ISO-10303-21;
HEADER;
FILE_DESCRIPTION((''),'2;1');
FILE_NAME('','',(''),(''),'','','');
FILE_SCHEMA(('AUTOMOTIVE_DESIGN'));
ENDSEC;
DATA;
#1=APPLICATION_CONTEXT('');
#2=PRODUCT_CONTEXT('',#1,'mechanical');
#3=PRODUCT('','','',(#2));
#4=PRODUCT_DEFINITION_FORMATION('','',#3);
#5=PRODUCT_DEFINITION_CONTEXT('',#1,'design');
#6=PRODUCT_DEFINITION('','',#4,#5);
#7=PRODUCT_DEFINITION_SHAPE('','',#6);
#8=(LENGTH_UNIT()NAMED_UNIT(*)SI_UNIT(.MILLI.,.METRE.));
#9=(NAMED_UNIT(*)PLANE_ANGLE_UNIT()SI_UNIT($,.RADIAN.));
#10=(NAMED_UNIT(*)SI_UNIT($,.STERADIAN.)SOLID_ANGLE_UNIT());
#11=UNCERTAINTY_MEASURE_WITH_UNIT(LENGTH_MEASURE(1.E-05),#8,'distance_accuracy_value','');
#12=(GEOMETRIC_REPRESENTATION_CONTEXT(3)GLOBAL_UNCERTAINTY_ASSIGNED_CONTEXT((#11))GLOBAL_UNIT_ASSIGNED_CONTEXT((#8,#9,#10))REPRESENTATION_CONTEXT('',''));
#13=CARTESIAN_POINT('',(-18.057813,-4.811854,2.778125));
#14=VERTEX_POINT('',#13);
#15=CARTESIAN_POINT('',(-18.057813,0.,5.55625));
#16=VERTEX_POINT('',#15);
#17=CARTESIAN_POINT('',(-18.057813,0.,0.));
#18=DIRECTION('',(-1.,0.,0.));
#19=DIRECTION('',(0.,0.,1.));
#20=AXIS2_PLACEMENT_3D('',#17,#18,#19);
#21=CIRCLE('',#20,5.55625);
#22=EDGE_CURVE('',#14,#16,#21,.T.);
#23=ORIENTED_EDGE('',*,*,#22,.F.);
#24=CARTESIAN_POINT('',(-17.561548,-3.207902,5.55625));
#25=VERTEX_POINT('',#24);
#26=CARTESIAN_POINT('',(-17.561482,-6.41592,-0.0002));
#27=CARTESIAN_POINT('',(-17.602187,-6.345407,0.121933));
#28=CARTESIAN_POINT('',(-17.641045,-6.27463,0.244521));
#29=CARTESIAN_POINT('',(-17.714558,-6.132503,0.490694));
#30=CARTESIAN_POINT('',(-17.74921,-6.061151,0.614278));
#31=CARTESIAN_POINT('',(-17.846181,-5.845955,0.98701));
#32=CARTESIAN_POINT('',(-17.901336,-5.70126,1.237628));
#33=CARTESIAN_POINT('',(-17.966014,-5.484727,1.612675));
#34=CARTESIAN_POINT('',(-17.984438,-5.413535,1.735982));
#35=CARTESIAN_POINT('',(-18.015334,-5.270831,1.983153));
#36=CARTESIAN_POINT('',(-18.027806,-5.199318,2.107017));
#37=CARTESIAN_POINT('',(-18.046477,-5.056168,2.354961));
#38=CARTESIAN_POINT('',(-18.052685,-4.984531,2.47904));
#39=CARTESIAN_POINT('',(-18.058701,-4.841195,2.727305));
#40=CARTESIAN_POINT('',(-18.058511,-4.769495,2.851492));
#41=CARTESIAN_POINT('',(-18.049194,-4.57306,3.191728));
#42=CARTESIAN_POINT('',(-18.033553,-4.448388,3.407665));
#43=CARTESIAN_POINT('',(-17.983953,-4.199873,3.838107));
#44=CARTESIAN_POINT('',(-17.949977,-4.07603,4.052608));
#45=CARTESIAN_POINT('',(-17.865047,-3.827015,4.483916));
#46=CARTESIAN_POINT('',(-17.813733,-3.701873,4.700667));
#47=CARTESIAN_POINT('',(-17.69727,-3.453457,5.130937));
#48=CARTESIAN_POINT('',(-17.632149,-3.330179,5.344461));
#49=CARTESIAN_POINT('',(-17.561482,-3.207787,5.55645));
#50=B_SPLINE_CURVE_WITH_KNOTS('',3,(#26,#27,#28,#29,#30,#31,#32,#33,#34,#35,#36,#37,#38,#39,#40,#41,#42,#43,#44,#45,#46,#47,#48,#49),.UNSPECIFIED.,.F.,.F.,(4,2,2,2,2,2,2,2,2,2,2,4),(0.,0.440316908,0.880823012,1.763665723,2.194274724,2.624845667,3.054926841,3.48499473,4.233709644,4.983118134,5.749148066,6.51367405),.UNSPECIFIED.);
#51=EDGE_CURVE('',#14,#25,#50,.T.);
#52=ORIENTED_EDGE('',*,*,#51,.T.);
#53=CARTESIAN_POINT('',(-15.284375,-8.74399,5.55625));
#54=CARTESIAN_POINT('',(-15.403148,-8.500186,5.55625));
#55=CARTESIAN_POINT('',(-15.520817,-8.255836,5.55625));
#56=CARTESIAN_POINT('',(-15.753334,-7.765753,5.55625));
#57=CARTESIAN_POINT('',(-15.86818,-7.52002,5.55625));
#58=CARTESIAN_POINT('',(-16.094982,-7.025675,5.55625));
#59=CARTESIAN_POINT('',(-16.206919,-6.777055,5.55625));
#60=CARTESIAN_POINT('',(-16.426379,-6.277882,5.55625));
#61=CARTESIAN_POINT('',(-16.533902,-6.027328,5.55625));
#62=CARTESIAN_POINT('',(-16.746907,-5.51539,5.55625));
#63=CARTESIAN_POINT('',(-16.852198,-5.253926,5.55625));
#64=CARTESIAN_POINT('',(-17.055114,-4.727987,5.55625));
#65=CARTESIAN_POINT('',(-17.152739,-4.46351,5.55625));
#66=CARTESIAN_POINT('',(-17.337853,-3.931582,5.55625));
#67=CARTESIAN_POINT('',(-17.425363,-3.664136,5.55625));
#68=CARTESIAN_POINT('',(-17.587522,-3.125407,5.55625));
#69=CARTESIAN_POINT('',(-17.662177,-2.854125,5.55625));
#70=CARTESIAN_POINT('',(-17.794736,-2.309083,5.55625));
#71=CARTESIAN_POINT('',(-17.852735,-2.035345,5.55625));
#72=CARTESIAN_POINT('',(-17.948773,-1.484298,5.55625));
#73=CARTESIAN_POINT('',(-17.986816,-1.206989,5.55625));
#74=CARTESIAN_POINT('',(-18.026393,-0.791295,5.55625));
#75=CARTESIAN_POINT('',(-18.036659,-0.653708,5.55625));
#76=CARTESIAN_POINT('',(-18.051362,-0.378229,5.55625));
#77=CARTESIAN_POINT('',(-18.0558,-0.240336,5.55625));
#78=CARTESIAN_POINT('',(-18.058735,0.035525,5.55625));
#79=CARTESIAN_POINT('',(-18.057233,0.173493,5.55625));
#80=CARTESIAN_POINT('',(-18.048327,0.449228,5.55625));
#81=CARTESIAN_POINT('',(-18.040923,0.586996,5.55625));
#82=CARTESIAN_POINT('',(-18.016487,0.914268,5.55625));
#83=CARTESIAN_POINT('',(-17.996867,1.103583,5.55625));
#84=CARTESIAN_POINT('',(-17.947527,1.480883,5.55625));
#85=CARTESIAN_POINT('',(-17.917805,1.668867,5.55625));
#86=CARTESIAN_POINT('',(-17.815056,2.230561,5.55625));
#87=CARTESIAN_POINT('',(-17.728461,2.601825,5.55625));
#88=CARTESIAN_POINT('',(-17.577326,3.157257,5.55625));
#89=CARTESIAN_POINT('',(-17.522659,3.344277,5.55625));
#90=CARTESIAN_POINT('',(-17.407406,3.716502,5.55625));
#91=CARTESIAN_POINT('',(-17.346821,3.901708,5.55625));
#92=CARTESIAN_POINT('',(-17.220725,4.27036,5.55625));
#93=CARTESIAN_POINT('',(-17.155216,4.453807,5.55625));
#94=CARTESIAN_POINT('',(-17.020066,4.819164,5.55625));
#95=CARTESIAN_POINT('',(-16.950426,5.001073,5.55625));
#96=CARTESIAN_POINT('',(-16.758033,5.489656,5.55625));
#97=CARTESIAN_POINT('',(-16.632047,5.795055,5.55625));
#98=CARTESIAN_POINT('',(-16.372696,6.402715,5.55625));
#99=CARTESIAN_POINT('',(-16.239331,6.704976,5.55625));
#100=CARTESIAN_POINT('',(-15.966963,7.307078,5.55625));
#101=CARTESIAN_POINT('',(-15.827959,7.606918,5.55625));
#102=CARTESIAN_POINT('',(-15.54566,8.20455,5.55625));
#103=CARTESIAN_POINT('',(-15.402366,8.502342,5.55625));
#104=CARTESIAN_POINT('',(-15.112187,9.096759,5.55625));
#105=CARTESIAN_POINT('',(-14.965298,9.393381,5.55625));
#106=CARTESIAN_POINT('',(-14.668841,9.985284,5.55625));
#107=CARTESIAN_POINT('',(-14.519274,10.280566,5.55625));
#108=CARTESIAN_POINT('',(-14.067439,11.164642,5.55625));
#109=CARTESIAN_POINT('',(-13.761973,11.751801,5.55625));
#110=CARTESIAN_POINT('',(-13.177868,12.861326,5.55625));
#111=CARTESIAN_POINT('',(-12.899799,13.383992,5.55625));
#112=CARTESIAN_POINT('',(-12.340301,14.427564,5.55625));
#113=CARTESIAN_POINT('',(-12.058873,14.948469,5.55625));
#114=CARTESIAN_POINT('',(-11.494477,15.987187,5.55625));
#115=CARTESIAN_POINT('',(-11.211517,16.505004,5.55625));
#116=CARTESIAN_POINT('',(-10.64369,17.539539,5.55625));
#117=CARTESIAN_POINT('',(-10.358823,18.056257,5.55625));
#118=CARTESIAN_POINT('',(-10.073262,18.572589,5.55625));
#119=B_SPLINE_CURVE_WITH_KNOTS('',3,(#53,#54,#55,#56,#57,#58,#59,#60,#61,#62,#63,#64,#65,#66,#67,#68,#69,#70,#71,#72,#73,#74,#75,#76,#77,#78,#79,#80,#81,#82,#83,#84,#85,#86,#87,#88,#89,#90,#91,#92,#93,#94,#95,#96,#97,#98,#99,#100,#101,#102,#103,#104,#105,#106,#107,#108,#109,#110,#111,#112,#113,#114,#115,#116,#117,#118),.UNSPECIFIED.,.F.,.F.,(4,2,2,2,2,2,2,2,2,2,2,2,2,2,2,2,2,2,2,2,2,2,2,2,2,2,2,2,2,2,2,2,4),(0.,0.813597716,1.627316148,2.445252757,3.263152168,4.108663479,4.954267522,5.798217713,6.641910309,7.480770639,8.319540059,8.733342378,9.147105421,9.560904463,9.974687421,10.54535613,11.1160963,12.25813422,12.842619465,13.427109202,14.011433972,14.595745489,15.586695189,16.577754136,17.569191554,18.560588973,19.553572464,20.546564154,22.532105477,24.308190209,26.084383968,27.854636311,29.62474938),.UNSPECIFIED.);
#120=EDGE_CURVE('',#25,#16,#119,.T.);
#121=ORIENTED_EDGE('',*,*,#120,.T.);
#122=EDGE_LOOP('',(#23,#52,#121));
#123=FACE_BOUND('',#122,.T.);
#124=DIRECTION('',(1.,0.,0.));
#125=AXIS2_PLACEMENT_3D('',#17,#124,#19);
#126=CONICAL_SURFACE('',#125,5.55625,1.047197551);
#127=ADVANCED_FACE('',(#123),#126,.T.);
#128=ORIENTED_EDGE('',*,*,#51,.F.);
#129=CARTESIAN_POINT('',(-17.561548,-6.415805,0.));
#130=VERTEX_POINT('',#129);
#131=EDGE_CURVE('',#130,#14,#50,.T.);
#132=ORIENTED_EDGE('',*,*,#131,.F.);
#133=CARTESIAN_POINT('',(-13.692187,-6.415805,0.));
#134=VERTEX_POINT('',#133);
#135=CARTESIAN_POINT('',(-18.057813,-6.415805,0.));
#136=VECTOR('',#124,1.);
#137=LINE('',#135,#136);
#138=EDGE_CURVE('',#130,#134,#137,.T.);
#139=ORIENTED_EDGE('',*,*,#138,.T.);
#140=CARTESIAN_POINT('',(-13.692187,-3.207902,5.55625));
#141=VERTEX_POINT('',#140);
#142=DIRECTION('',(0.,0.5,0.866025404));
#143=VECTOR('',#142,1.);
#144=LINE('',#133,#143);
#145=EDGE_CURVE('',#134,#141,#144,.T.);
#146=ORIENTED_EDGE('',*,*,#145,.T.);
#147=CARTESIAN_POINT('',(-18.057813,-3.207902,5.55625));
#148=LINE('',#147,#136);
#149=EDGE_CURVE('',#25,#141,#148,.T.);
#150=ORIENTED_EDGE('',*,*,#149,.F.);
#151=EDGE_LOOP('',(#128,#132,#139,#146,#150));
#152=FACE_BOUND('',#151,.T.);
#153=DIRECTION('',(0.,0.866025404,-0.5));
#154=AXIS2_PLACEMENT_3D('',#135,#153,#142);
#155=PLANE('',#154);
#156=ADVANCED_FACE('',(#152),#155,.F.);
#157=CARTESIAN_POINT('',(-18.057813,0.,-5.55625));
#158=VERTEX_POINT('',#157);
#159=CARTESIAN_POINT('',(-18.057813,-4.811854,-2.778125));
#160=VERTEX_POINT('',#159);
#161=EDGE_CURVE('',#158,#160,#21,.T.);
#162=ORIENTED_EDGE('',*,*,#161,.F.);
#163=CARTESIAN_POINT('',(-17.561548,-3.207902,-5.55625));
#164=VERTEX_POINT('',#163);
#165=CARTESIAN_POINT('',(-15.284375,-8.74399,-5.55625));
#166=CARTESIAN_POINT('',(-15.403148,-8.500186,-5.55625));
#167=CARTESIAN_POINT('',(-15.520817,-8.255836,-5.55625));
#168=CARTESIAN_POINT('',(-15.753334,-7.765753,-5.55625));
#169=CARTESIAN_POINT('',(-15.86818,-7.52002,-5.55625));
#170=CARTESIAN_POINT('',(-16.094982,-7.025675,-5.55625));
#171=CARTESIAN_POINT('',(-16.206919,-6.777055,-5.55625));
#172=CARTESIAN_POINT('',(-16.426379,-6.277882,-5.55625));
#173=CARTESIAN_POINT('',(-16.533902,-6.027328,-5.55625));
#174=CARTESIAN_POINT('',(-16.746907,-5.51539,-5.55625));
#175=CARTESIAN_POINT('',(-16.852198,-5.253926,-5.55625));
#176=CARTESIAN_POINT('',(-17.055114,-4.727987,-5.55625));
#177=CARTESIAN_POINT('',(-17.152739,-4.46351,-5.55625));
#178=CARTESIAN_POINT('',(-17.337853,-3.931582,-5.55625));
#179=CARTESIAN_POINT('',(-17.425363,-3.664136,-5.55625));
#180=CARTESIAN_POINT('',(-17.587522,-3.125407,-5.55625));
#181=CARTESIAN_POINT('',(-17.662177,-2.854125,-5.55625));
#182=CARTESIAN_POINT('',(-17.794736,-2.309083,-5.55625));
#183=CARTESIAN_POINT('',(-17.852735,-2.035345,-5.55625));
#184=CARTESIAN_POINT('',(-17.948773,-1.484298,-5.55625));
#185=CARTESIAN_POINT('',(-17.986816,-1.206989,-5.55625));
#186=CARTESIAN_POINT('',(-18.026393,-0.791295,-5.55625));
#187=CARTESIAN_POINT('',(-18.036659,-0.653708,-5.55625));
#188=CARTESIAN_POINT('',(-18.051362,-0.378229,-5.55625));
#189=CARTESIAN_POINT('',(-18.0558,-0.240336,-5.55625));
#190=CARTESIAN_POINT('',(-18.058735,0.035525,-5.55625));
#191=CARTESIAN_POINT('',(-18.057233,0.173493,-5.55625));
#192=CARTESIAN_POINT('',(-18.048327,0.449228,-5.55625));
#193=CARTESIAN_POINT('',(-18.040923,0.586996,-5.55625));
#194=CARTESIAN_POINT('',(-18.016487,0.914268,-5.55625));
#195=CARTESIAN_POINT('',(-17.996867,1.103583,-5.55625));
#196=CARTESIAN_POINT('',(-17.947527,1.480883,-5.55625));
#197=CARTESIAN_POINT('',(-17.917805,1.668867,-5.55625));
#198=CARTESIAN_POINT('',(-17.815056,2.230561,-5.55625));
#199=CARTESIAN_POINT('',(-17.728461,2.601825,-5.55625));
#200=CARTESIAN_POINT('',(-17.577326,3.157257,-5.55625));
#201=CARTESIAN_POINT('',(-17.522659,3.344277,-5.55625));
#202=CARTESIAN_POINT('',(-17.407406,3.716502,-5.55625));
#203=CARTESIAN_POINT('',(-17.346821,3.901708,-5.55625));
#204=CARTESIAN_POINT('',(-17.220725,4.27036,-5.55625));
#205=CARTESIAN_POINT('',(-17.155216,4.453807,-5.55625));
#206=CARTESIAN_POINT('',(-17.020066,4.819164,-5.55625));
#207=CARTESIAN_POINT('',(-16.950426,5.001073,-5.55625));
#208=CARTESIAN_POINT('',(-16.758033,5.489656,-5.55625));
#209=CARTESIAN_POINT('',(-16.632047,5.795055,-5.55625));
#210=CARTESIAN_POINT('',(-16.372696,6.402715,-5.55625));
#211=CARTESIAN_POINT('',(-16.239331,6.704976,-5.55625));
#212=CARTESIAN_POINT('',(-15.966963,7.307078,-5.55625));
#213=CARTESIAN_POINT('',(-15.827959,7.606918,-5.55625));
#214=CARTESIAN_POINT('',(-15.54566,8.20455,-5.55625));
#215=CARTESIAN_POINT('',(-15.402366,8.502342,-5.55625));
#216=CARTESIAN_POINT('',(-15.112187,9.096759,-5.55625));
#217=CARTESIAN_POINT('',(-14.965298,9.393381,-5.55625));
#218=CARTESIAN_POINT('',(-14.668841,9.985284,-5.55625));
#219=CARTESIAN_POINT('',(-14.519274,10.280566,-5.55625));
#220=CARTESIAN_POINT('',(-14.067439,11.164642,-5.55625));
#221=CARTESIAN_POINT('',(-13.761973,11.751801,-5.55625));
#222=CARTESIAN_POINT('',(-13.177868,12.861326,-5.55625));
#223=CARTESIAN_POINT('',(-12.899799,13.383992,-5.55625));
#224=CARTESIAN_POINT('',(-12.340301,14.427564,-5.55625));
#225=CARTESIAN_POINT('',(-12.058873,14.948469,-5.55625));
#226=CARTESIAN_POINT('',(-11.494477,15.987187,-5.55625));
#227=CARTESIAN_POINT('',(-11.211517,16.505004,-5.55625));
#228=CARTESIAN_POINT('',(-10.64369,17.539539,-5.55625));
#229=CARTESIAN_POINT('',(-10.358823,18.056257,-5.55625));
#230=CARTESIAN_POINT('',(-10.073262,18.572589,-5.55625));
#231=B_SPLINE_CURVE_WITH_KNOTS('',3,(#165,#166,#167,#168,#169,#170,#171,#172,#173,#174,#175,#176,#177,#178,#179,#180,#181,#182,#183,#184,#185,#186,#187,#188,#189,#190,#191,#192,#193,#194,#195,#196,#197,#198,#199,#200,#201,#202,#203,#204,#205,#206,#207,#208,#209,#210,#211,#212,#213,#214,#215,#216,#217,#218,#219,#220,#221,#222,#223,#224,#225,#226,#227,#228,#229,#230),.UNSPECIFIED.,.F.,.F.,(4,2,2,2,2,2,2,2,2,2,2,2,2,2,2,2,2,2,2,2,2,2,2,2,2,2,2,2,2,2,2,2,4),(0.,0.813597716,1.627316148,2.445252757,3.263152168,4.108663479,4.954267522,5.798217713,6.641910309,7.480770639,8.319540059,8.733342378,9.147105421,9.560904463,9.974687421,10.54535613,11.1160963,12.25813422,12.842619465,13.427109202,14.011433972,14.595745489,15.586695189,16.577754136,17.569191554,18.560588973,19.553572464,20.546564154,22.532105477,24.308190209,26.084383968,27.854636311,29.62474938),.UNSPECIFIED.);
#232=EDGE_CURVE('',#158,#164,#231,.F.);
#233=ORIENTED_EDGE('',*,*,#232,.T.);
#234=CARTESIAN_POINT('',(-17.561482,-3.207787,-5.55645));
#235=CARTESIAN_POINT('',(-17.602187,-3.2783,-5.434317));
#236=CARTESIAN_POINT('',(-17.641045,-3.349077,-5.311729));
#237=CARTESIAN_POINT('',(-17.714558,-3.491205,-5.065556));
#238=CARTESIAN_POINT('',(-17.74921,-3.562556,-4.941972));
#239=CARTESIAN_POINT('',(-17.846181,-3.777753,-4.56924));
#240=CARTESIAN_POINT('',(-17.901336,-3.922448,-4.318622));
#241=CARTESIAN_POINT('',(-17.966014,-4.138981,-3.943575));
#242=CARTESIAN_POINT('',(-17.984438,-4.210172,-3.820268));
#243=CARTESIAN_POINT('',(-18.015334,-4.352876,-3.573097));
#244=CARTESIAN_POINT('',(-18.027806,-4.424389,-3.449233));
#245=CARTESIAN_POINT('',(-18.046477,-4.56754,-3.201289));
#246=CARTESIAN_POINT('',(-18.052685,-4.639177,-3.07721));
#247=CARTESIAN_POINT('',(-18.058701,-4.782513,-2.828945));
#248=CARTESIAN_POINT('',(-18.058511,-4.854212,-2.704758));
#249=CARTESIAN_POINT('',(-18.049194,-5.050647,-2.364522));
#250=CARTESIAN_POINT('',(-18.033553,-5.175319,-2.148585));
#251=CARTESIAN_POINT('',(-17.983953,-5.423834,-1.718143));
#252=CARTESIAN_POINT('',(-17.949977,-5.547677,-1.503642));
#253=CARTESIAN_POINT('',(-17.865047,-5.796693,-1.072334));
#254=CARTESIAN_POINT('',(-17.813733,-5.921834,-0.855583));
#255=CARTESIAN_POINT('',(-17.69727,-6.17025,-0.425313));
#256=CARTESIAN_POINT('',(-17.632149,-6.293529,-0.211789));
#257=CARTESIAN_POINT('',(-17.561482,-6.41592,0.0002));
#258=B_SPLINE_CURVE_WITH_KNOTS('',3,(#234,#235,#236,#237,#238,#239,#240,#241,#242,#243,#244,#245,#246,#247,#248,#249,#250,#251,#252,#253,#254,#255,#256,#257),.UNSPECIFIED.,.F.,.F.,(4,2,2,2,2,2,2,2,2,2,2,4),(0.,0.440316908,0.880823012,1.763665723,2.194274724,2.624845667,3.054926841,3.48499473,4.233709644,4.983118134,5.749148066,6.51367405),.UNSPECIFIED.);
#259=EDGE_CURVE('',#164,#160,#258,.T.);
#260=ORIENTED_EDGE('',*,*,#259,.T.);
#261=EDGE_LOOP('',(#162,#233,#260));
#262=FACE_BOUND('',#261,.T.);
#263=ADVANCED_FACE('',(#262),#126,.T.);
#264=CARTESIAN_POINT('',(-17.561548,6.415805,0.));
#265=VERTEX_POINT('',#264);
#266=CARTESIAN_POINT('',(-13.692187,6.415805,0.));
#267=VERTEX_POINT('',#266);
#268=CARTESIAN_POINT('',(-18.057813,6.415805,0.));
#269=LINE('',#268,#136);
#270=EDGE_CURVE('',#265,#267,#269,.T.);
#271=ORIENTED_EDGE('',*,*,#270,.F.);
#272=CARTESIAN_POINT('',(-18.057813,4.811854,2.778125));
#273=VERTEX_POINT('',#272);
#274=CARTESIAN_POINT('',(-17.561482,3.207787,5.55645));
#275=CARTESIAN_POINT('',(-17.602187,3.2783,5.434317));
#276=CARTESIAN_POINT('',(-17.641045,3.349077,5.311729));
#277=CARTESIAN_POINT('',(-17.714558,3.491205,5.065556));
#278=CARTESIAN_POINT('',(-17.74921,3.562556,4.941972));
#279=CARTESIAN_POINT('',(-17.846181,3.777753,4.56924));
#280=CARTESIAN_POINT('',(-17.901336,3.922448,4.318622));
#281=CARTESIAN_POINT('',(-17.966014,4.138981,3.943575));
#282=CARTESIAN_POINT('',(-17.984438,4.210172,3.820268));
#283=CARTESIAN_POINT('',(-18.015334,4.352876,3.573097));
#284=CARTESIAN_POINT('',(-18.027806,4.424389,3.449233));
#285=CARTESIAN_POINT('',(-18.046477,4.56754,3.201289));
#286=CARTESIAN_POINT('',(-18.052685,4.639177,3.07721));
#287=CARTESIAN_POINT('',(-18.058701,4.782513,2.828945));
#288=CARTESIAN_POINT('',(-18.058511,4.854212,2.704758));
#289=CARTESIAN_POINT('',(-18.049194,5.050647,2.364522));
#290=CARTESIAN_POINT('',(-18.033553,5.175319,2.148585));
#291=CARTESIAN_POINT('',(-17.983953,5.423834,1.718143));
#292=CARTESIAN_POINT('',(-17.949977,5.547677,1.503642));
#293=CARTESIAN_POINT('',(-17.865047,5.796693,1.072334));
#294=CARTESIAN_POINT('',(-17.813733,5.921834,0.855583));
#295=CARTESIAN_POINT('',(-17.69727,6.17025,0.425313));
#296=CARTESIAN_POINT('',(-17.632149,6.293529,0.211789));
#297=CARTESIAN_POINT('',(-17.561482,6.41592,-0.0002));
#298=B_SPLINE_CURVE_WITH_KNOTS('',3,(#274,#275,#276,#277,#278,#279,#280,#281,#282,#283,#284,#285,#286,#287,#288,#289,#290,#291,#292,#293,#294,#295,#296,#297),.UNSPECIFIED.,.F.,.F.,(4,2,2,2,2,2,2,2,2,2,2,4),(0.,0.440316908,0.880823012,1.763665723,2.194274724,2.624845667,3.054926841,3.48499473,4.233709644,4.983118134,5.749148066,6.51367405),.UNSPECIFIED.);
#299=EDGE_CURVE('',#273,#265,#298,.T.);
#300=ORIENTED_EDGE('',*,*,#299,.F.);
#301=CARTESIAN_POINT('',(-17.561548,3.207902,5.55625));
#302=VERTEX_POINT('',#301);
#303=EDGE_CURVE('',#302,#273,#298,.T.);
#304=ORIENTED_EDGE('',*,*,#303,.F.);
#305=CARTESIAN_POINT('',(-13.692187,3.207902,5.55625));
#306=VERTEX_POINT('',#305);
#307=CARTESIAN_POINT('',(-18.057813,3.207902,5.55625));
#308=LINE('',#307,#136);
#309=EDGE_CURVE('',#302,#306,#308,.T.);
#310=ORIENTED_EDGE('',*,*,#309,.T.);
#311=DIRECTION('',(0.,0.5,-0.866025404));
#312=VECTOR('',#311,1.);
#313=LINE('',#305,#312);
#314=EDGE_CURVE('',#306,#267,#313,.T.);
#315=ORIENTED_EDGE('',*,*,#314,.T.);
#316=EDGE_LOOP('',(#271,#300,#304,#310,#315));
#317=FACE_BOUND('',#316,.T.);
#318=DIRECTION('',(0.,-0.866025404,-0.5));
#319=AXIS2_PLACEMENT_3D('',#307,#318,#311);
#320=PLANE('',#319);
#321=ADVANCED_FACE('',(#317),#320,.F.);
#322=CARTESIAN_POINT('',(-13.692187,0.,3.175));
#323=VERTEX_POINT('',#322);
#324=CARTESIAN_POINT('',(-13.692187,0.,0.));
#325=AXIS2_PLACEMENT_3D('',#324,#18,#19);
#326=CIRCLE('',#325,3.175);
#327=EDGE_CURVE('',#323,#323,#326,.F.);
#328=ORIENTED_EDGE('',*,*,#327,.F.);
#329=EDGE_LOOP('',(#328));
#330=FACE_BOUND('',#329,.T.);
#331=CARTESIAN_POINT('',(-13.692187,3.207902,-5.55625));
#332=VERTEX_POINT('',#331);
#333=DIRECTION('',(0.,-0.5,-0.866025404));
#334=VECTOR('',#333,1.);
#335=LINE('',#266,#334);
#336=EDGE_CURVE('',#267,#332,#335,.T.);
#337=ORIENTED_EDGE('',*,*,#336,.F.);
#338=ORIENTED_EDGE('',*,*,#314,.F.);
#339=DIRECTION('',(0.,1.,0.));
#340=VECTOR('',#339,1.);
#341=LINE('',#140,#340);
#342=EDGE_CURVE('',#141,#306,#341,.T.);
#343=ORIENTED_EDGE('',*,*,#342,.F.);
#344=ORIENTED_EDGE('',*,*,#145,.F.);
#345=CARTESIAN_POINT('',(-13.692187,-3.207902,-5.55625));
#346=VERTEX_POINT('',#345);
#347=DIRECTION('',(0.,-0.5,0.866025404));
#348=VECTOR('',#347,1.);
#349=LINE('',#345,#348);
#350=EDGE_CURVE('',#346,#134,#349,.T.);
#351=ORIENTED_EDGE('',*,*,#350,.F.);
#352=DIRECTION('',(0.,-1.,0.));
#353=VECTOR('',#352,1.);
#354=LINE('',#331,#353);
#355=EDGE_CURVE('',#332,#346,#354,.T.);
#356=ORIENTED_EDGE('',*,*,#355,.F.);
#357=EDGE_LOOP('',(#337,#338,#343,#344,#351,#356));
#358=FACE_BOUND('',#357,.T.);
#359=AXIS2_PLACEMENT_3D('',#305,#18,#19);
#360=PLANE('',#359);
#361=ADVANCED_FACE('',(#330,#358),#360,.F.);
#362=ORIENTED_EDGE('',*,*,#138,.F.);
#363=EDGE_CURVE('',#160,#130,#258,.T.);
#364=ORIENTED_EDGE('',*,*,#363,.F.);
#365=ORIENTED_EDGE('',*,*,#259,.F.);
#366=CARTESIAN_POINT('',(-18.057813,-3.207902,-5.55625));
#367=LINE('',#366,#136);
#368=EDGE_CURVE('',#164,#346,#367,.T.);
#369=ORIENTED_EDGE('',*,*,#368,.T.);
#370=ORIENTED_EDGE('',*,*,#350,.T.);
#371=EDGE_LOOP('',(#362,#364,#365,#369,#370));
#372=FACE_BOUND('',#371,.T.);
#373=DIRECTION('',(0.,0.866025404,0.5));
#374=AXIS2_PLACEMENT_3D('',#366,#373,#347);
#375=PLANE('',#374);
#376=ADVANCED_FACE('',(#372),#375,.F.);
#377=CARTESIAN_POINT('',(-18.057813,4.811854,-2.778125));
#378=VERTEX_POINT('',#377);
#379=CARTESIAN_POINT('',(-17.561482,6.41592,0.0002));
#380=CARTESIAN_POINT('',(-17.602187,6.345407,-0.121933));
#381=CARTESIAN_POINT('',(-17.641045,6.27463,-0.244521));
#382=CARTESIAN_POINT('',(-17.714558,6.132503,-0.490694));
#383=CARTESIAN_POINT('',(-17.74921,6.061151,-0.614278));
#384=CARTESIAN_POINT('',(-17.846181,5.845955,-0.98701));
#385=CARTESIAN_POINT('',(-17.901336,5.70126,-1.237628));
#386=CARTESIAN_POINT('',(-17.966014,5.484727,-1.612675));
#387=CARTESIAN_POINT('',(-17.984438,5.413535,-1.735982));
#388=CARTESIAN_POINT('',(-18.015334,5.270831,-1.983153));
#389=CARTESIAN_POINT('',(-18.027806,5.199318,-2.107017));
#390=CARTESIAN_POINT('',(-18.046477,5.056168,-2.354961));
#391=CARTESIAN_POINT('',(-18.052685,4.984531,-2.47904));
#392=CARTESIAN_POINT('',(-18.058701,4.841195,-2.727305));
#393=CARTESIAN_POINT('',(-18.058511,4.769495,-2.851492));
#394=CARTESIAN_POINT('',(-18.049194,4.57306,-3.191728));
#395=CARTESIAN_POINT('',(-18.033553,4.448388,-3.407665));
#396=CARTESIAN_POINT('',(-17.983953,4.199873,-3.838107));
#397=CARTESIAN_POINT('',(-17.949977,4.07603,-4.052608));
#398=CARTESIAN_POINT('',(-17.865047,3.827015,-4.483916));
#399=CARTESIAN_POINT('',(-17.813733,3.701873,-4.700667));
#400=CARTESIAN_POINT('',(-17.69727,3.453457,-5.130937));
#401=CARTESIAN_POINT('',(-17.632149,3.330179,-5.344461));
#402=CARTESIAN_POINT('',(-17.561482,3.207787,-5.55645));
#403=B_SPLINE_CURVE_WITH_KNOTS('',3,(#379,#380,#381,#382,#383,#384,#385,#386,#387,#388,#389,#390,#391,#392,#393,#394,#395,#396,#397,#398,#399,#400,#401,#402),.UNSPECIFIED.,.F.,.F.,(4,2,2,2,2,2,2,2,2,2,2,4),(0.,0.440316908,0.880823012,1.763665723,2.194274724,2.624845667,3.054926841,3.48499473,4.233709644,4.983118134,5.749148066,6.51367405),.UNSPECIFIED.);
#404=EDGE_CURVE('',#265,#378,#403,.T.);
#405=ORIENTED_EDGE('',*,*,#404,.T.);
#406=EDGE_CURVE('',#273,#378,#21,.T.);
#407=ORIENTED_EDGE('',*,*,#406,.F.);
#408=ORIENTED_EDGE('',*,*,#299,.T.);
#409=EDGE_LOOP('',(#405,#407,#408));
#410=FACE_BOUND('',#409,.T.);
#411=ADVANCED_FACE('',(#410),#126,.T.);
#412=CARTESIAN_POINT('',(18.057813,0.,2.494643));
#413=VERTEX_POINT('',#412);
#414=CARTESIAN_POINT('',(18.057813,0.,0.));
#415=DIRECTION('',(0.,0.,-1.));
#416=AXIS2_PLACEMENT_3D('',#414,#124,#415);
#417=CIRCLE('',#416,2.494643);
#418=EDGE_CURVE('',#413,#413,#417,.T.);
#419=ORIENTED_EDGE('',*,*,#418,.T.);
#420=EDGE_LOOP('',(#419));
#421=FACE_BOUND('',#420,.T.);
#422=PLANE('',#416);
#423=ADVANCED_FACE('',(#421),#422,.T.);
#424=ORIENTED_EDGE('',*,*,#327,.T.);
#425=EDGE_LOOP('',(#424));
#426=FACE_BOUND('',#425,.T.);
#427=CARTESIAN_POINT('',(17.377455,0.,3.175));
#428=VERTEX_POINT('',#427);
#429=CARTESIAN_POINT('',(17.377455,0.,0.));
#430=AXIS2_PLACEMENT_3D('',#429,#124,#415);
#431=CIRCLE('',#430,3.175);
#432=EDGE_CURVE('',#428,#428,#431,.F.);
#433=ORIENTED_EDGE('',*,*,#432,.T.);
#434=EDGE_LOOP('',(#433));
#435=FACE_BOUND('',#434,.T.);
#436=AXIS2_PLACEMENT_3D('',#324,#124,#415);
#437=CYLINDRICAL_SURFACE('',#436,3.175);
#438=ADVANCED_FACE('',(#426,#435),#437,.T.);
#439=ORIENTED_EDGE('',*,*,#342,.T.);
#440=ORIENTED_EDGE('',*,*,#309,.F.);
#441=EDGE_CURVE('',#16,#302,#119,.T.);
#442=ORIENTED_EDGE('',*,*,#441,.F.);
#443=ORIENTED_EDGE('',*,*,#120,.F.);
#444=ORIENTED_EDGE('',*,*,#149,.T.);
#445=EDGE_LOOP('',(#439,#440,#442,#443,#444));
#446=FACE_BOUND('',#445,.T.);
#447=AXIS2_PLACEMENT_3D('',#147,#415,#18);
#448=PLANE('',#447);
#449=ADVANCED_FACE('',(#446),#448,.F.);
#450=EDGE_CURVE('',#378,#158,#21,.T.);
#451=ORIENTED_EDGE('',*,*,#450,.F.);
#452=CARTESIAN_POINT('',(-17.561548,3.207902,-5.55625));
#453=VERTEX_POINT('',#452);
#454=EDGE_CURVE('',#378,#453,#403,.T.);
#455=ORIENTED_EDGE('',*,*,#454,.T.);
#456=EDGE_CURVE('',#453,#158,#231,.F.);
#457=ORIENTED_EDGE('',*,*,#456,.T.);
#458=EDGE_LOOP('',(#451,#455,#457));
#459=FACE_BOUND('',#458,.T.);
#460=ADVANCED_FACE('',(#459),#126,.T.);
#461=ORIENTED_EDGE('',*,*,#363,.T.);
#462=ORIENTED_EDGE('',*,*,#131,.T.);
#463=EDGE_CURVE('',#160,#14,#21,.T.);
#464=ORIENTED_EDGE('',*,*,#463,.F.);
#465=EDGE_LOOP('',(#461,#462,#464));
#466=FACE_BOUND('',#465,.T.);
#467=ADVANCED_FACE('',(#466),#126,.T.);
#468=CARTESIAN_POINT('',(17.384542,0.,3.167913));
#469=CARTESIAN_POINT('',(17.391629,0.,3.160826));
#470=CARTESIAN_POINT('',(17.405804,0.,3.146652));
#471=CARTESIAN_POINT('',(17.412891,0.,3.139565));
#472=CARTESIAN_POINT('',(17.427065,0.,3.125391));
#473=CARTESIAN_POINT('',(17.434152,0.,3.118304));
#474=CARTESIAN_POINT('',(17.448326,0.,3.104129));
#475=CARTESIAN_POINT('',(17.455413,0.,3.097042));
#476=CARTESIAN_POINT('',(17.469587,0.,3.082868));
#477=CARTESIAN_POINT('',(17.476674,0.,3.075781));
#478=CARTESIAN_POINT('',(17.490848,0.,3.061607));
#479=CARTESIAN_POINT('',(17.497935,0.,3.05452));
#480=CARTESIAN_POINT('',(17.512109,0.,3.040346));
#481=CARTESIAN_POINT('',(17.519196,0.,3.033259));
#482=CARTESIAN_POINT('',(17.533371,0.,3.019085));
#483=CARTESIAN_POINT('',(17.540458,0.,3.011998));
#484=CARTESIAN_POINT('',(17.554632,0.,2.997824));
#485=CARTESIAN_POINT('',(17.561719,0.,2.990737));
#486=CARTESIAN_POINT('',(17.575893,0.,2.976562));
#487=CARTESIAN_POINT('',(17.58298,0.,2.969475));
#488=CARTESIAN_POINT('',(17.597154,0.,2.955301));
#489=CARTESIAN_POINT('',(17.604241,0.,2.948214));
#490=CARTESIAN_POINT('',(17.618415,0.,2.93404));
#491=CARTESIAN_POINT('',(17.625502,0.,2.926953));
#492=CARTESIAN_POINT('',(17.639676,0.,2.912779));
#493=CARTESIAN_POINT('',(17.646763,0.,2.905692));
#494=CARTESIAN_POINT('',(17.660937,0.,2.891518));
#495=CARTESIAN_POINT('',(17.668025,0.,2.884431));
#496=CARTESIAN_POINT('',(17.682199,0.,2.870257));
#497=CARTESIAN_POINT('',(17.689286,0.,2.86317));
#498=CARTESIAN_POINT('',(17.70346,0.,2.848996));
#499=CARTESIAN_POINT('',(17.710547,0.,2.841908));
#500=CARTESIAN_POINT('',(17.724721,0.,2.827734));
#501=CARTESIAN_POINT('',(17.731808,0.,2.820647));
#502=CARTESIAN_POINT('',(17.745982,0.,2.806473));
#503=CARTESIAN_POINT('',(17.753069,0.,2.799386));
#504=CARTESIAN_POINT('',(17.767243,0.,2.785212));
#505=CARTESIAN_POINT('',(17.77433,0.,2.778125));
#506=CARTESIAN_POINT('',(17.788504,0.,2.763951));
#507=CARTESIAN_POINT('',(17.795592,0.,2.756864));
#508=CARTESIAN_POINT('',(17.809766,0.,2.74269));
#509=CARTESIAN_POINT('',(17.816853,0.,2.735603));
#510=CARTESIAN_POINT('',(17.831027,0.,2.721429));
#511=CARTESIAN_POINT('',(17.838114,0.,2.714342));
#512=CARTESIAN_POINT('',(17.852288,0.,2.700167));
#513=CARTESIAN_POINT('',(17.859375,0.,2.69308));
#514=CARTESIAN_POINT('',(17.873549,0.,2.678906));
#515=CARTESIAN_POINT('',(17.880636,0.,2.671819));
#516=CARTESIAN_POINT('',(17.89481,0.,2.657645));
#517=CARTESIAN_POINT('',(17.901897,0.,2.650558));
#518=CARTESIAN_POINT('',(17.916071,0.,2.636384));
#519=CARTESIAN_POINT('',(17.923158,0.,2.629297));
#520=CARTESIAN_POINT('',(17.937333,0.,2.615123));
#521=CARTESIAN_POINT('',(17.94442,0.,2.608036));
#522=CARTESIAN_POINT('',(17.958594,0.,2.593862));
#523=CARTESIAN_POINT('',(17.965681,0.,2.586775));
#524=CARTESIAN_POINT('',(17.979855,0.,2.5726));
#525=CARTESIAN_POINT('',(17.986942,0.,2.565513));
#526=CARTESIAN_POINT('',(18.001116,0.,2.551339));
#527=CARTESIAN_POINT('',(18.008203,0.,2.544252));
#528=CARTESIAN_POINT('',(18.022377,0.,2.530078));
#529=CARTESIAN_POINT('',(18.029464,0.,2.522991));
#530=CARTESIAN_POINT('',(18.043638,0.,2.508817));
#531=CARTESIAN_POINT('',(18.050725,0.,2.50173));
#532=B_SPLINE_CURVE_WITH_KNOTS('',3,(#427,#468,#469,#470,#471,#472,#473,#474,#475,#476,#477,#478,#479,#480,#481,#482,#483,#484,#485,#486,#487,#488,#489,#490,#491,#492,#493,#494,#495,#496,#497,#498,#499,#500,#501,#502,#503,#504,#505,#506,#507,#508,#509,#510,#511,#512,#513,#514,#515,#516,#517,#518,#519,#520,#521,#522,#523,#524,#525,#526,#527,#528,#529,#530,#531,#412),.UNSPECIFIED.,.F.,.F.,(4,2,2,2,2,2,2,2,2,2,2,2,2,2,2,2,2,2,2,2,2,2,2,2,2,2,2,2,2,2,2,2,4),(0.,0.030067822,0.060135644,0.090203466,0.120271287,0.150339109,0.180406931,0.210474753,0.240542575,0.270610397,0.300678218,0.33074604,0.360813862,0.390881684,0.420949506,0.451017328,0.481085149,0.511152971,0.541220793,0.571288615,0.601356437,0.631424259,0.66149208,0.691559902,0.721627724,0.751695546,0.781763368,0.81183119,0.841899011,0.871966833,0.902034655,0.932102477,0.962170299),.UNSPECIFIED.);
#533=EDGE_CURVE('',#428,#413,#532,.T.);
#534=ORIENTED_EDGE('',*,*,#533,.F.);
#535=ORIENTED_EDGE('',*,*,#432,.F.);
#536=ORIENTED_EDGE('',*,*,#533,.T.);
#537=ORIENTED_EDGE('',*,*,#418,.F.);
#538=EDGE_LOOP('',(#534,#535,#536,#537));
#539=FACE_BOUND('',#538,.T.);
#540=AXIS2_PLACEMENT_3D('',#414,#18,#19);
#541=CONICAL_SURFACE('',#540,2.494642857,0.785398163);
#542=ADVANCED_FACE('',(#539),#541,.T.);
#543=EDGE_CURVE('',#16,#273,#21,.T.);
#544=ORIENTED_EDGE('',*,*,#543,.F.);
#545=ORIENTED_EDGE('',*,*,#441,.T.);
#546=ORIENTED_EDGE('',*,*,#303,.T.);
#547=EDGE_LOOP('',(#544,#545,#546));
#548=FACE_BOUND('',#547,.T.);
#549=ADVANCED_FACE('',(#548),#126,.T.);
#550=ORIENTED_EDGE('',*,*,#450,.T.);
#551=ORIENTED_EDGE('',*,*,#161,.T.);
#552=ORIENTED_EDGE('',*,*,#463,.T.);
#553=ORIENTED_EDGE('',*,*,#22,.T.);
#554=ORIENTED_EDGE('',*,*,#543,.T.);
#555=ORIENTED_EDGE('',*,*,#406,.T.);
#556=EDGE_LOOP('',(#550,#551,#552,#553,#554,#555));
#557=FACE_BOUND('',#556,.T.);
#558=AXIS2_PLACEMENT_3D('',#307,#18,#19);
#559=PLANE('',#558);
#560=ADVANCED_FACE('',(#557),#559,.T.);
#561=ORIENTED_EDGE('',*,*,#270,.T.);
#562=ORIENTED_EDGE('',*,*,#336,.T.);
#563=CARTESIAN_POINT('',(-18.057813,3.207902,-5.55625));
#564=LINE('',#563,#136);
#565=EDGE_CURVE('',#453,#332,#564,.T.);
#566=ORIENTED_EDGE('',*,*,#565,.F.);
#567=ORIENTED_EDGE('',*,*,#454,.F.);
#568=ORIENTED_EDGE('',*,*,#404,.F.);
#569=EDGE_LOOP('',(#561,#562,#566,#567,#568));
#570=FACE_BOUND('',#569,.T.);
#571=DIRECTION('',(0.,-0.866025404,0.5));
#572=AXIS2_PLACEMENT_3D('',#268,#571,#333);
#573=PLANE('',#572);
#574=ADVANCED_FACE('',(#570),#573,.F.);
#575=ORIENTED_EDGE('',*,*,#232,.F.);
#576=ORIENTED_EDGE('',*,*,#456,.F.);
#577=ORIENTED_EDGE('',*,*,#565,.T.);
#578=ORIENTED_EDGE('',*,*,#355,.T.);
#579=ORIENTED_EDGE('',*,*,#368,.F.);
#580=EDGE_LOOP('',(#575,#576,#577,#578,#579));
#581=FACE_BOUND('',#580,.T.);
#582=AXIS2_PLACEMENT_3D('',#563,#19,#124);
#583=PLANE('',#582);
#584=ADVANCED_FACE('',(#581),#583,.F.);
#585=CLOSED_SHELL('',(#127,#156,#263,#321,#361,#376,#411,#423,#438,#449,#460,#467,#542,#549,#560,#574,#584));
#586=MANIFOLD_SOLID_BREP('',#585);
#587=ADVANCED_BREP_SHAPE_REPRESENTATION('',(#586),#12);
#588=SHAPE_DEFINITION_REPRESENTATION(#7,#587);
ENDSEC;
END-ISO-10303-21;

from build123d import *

# Parameters (mm, degrees)
SKETCH5_R           = 3.175
BOSS_EXTRUDE3_DEPTH = 31.75
CHAMFER1_SIZE       = 0.680357143
BOSS_EXTRUDE4_DEPTH = 4.365625
SKETCH8_OUTSIDE_W   = 153.074
SKETCH8_OUTSIDE_H   = 154.794
SKETCH8_OUTSIDE_R   = 5.55625
CUT_EXTRUDE3_DEPTH  = 38.099499124
CUT_EXTRUDE3_DRAFT  = -60


with BuildPart() as part:
    # Sketch5 → Boss-Extrude3 (new body)
    with BuildSketch(Plane(origin=(18.0578125, 0, 0), x_dir=(0, 0, -1), z_dir=(1, 0, 0))):
        Circle(SKETCH5_R)
    extrude(amount=-BOSS_EXTRUDE3_DEPTH)

    # Chamfer1
    chamfer1_edges = [part.edges().sort_by_distance(p)[0] for p in [
        (18.0578125, 0, 3.175),
    ]]
    chamfer(chamfer1_edges, length=CHAMFER1_SIZE)

    # Sketch6 → Boss-Extrude4 (add)
    with BuildSketch(Plane.ZY.offset(13.6921875)):
        Polygon((5.55625, 3.207902433), (0, 6.415804866), (-5.55625, 3.207902433), (-5.55625, -3.207902433), (0, -6.415804866), (5.55625, -3.207902433), align=None)
    extrude(amount=BOSS_EXTRUDE4_DEPTH)


with BuildPart() as cut_extrude3_tool:
    # Sketch8 outside → Cut-Extrude3 (with draft: the straight prism first)
    with BuildSketch(Plane.ZY.offset(18.0578125)):
        Rectangle(SKETCH8_OUTSIDE_W, SKETCH8_OUTSIDE_H)
        Circle(SKETCH8_OUTSIDE_R, mode=Mode.SUBTRACT)
    extrude(amount=-CUT_EXTRUDE3_DEPTH)
    # Cut-Extrude3: the draft: its side faces are tilted about the plane it starts from
    cut_extrude3_sides = [cut_extrude3_tool.faces().sort_by_distance(p)[0] for p in [
        (0.991937062, -77.397, 0),
        (0.991937062, 0, 76.537),
        (0.991937062, 77.397, 0),
        (0.991937062, 0, -76.537),
        (0.991937062, 0, -5.55625),
    ]]
    draft(cut_extrude3_sides, Plane.ZY.offset(18.0578125), CUT_EXTRUDE3_DRAFT)


with BuildPart() as part_1:
    add(part.part)

    # Cut-Extrude3: cut by cut_extrude3_tool
    add(cut_extrude3_tool.part, mode=Mode.SUBTRACT)


solid = part_1.part
